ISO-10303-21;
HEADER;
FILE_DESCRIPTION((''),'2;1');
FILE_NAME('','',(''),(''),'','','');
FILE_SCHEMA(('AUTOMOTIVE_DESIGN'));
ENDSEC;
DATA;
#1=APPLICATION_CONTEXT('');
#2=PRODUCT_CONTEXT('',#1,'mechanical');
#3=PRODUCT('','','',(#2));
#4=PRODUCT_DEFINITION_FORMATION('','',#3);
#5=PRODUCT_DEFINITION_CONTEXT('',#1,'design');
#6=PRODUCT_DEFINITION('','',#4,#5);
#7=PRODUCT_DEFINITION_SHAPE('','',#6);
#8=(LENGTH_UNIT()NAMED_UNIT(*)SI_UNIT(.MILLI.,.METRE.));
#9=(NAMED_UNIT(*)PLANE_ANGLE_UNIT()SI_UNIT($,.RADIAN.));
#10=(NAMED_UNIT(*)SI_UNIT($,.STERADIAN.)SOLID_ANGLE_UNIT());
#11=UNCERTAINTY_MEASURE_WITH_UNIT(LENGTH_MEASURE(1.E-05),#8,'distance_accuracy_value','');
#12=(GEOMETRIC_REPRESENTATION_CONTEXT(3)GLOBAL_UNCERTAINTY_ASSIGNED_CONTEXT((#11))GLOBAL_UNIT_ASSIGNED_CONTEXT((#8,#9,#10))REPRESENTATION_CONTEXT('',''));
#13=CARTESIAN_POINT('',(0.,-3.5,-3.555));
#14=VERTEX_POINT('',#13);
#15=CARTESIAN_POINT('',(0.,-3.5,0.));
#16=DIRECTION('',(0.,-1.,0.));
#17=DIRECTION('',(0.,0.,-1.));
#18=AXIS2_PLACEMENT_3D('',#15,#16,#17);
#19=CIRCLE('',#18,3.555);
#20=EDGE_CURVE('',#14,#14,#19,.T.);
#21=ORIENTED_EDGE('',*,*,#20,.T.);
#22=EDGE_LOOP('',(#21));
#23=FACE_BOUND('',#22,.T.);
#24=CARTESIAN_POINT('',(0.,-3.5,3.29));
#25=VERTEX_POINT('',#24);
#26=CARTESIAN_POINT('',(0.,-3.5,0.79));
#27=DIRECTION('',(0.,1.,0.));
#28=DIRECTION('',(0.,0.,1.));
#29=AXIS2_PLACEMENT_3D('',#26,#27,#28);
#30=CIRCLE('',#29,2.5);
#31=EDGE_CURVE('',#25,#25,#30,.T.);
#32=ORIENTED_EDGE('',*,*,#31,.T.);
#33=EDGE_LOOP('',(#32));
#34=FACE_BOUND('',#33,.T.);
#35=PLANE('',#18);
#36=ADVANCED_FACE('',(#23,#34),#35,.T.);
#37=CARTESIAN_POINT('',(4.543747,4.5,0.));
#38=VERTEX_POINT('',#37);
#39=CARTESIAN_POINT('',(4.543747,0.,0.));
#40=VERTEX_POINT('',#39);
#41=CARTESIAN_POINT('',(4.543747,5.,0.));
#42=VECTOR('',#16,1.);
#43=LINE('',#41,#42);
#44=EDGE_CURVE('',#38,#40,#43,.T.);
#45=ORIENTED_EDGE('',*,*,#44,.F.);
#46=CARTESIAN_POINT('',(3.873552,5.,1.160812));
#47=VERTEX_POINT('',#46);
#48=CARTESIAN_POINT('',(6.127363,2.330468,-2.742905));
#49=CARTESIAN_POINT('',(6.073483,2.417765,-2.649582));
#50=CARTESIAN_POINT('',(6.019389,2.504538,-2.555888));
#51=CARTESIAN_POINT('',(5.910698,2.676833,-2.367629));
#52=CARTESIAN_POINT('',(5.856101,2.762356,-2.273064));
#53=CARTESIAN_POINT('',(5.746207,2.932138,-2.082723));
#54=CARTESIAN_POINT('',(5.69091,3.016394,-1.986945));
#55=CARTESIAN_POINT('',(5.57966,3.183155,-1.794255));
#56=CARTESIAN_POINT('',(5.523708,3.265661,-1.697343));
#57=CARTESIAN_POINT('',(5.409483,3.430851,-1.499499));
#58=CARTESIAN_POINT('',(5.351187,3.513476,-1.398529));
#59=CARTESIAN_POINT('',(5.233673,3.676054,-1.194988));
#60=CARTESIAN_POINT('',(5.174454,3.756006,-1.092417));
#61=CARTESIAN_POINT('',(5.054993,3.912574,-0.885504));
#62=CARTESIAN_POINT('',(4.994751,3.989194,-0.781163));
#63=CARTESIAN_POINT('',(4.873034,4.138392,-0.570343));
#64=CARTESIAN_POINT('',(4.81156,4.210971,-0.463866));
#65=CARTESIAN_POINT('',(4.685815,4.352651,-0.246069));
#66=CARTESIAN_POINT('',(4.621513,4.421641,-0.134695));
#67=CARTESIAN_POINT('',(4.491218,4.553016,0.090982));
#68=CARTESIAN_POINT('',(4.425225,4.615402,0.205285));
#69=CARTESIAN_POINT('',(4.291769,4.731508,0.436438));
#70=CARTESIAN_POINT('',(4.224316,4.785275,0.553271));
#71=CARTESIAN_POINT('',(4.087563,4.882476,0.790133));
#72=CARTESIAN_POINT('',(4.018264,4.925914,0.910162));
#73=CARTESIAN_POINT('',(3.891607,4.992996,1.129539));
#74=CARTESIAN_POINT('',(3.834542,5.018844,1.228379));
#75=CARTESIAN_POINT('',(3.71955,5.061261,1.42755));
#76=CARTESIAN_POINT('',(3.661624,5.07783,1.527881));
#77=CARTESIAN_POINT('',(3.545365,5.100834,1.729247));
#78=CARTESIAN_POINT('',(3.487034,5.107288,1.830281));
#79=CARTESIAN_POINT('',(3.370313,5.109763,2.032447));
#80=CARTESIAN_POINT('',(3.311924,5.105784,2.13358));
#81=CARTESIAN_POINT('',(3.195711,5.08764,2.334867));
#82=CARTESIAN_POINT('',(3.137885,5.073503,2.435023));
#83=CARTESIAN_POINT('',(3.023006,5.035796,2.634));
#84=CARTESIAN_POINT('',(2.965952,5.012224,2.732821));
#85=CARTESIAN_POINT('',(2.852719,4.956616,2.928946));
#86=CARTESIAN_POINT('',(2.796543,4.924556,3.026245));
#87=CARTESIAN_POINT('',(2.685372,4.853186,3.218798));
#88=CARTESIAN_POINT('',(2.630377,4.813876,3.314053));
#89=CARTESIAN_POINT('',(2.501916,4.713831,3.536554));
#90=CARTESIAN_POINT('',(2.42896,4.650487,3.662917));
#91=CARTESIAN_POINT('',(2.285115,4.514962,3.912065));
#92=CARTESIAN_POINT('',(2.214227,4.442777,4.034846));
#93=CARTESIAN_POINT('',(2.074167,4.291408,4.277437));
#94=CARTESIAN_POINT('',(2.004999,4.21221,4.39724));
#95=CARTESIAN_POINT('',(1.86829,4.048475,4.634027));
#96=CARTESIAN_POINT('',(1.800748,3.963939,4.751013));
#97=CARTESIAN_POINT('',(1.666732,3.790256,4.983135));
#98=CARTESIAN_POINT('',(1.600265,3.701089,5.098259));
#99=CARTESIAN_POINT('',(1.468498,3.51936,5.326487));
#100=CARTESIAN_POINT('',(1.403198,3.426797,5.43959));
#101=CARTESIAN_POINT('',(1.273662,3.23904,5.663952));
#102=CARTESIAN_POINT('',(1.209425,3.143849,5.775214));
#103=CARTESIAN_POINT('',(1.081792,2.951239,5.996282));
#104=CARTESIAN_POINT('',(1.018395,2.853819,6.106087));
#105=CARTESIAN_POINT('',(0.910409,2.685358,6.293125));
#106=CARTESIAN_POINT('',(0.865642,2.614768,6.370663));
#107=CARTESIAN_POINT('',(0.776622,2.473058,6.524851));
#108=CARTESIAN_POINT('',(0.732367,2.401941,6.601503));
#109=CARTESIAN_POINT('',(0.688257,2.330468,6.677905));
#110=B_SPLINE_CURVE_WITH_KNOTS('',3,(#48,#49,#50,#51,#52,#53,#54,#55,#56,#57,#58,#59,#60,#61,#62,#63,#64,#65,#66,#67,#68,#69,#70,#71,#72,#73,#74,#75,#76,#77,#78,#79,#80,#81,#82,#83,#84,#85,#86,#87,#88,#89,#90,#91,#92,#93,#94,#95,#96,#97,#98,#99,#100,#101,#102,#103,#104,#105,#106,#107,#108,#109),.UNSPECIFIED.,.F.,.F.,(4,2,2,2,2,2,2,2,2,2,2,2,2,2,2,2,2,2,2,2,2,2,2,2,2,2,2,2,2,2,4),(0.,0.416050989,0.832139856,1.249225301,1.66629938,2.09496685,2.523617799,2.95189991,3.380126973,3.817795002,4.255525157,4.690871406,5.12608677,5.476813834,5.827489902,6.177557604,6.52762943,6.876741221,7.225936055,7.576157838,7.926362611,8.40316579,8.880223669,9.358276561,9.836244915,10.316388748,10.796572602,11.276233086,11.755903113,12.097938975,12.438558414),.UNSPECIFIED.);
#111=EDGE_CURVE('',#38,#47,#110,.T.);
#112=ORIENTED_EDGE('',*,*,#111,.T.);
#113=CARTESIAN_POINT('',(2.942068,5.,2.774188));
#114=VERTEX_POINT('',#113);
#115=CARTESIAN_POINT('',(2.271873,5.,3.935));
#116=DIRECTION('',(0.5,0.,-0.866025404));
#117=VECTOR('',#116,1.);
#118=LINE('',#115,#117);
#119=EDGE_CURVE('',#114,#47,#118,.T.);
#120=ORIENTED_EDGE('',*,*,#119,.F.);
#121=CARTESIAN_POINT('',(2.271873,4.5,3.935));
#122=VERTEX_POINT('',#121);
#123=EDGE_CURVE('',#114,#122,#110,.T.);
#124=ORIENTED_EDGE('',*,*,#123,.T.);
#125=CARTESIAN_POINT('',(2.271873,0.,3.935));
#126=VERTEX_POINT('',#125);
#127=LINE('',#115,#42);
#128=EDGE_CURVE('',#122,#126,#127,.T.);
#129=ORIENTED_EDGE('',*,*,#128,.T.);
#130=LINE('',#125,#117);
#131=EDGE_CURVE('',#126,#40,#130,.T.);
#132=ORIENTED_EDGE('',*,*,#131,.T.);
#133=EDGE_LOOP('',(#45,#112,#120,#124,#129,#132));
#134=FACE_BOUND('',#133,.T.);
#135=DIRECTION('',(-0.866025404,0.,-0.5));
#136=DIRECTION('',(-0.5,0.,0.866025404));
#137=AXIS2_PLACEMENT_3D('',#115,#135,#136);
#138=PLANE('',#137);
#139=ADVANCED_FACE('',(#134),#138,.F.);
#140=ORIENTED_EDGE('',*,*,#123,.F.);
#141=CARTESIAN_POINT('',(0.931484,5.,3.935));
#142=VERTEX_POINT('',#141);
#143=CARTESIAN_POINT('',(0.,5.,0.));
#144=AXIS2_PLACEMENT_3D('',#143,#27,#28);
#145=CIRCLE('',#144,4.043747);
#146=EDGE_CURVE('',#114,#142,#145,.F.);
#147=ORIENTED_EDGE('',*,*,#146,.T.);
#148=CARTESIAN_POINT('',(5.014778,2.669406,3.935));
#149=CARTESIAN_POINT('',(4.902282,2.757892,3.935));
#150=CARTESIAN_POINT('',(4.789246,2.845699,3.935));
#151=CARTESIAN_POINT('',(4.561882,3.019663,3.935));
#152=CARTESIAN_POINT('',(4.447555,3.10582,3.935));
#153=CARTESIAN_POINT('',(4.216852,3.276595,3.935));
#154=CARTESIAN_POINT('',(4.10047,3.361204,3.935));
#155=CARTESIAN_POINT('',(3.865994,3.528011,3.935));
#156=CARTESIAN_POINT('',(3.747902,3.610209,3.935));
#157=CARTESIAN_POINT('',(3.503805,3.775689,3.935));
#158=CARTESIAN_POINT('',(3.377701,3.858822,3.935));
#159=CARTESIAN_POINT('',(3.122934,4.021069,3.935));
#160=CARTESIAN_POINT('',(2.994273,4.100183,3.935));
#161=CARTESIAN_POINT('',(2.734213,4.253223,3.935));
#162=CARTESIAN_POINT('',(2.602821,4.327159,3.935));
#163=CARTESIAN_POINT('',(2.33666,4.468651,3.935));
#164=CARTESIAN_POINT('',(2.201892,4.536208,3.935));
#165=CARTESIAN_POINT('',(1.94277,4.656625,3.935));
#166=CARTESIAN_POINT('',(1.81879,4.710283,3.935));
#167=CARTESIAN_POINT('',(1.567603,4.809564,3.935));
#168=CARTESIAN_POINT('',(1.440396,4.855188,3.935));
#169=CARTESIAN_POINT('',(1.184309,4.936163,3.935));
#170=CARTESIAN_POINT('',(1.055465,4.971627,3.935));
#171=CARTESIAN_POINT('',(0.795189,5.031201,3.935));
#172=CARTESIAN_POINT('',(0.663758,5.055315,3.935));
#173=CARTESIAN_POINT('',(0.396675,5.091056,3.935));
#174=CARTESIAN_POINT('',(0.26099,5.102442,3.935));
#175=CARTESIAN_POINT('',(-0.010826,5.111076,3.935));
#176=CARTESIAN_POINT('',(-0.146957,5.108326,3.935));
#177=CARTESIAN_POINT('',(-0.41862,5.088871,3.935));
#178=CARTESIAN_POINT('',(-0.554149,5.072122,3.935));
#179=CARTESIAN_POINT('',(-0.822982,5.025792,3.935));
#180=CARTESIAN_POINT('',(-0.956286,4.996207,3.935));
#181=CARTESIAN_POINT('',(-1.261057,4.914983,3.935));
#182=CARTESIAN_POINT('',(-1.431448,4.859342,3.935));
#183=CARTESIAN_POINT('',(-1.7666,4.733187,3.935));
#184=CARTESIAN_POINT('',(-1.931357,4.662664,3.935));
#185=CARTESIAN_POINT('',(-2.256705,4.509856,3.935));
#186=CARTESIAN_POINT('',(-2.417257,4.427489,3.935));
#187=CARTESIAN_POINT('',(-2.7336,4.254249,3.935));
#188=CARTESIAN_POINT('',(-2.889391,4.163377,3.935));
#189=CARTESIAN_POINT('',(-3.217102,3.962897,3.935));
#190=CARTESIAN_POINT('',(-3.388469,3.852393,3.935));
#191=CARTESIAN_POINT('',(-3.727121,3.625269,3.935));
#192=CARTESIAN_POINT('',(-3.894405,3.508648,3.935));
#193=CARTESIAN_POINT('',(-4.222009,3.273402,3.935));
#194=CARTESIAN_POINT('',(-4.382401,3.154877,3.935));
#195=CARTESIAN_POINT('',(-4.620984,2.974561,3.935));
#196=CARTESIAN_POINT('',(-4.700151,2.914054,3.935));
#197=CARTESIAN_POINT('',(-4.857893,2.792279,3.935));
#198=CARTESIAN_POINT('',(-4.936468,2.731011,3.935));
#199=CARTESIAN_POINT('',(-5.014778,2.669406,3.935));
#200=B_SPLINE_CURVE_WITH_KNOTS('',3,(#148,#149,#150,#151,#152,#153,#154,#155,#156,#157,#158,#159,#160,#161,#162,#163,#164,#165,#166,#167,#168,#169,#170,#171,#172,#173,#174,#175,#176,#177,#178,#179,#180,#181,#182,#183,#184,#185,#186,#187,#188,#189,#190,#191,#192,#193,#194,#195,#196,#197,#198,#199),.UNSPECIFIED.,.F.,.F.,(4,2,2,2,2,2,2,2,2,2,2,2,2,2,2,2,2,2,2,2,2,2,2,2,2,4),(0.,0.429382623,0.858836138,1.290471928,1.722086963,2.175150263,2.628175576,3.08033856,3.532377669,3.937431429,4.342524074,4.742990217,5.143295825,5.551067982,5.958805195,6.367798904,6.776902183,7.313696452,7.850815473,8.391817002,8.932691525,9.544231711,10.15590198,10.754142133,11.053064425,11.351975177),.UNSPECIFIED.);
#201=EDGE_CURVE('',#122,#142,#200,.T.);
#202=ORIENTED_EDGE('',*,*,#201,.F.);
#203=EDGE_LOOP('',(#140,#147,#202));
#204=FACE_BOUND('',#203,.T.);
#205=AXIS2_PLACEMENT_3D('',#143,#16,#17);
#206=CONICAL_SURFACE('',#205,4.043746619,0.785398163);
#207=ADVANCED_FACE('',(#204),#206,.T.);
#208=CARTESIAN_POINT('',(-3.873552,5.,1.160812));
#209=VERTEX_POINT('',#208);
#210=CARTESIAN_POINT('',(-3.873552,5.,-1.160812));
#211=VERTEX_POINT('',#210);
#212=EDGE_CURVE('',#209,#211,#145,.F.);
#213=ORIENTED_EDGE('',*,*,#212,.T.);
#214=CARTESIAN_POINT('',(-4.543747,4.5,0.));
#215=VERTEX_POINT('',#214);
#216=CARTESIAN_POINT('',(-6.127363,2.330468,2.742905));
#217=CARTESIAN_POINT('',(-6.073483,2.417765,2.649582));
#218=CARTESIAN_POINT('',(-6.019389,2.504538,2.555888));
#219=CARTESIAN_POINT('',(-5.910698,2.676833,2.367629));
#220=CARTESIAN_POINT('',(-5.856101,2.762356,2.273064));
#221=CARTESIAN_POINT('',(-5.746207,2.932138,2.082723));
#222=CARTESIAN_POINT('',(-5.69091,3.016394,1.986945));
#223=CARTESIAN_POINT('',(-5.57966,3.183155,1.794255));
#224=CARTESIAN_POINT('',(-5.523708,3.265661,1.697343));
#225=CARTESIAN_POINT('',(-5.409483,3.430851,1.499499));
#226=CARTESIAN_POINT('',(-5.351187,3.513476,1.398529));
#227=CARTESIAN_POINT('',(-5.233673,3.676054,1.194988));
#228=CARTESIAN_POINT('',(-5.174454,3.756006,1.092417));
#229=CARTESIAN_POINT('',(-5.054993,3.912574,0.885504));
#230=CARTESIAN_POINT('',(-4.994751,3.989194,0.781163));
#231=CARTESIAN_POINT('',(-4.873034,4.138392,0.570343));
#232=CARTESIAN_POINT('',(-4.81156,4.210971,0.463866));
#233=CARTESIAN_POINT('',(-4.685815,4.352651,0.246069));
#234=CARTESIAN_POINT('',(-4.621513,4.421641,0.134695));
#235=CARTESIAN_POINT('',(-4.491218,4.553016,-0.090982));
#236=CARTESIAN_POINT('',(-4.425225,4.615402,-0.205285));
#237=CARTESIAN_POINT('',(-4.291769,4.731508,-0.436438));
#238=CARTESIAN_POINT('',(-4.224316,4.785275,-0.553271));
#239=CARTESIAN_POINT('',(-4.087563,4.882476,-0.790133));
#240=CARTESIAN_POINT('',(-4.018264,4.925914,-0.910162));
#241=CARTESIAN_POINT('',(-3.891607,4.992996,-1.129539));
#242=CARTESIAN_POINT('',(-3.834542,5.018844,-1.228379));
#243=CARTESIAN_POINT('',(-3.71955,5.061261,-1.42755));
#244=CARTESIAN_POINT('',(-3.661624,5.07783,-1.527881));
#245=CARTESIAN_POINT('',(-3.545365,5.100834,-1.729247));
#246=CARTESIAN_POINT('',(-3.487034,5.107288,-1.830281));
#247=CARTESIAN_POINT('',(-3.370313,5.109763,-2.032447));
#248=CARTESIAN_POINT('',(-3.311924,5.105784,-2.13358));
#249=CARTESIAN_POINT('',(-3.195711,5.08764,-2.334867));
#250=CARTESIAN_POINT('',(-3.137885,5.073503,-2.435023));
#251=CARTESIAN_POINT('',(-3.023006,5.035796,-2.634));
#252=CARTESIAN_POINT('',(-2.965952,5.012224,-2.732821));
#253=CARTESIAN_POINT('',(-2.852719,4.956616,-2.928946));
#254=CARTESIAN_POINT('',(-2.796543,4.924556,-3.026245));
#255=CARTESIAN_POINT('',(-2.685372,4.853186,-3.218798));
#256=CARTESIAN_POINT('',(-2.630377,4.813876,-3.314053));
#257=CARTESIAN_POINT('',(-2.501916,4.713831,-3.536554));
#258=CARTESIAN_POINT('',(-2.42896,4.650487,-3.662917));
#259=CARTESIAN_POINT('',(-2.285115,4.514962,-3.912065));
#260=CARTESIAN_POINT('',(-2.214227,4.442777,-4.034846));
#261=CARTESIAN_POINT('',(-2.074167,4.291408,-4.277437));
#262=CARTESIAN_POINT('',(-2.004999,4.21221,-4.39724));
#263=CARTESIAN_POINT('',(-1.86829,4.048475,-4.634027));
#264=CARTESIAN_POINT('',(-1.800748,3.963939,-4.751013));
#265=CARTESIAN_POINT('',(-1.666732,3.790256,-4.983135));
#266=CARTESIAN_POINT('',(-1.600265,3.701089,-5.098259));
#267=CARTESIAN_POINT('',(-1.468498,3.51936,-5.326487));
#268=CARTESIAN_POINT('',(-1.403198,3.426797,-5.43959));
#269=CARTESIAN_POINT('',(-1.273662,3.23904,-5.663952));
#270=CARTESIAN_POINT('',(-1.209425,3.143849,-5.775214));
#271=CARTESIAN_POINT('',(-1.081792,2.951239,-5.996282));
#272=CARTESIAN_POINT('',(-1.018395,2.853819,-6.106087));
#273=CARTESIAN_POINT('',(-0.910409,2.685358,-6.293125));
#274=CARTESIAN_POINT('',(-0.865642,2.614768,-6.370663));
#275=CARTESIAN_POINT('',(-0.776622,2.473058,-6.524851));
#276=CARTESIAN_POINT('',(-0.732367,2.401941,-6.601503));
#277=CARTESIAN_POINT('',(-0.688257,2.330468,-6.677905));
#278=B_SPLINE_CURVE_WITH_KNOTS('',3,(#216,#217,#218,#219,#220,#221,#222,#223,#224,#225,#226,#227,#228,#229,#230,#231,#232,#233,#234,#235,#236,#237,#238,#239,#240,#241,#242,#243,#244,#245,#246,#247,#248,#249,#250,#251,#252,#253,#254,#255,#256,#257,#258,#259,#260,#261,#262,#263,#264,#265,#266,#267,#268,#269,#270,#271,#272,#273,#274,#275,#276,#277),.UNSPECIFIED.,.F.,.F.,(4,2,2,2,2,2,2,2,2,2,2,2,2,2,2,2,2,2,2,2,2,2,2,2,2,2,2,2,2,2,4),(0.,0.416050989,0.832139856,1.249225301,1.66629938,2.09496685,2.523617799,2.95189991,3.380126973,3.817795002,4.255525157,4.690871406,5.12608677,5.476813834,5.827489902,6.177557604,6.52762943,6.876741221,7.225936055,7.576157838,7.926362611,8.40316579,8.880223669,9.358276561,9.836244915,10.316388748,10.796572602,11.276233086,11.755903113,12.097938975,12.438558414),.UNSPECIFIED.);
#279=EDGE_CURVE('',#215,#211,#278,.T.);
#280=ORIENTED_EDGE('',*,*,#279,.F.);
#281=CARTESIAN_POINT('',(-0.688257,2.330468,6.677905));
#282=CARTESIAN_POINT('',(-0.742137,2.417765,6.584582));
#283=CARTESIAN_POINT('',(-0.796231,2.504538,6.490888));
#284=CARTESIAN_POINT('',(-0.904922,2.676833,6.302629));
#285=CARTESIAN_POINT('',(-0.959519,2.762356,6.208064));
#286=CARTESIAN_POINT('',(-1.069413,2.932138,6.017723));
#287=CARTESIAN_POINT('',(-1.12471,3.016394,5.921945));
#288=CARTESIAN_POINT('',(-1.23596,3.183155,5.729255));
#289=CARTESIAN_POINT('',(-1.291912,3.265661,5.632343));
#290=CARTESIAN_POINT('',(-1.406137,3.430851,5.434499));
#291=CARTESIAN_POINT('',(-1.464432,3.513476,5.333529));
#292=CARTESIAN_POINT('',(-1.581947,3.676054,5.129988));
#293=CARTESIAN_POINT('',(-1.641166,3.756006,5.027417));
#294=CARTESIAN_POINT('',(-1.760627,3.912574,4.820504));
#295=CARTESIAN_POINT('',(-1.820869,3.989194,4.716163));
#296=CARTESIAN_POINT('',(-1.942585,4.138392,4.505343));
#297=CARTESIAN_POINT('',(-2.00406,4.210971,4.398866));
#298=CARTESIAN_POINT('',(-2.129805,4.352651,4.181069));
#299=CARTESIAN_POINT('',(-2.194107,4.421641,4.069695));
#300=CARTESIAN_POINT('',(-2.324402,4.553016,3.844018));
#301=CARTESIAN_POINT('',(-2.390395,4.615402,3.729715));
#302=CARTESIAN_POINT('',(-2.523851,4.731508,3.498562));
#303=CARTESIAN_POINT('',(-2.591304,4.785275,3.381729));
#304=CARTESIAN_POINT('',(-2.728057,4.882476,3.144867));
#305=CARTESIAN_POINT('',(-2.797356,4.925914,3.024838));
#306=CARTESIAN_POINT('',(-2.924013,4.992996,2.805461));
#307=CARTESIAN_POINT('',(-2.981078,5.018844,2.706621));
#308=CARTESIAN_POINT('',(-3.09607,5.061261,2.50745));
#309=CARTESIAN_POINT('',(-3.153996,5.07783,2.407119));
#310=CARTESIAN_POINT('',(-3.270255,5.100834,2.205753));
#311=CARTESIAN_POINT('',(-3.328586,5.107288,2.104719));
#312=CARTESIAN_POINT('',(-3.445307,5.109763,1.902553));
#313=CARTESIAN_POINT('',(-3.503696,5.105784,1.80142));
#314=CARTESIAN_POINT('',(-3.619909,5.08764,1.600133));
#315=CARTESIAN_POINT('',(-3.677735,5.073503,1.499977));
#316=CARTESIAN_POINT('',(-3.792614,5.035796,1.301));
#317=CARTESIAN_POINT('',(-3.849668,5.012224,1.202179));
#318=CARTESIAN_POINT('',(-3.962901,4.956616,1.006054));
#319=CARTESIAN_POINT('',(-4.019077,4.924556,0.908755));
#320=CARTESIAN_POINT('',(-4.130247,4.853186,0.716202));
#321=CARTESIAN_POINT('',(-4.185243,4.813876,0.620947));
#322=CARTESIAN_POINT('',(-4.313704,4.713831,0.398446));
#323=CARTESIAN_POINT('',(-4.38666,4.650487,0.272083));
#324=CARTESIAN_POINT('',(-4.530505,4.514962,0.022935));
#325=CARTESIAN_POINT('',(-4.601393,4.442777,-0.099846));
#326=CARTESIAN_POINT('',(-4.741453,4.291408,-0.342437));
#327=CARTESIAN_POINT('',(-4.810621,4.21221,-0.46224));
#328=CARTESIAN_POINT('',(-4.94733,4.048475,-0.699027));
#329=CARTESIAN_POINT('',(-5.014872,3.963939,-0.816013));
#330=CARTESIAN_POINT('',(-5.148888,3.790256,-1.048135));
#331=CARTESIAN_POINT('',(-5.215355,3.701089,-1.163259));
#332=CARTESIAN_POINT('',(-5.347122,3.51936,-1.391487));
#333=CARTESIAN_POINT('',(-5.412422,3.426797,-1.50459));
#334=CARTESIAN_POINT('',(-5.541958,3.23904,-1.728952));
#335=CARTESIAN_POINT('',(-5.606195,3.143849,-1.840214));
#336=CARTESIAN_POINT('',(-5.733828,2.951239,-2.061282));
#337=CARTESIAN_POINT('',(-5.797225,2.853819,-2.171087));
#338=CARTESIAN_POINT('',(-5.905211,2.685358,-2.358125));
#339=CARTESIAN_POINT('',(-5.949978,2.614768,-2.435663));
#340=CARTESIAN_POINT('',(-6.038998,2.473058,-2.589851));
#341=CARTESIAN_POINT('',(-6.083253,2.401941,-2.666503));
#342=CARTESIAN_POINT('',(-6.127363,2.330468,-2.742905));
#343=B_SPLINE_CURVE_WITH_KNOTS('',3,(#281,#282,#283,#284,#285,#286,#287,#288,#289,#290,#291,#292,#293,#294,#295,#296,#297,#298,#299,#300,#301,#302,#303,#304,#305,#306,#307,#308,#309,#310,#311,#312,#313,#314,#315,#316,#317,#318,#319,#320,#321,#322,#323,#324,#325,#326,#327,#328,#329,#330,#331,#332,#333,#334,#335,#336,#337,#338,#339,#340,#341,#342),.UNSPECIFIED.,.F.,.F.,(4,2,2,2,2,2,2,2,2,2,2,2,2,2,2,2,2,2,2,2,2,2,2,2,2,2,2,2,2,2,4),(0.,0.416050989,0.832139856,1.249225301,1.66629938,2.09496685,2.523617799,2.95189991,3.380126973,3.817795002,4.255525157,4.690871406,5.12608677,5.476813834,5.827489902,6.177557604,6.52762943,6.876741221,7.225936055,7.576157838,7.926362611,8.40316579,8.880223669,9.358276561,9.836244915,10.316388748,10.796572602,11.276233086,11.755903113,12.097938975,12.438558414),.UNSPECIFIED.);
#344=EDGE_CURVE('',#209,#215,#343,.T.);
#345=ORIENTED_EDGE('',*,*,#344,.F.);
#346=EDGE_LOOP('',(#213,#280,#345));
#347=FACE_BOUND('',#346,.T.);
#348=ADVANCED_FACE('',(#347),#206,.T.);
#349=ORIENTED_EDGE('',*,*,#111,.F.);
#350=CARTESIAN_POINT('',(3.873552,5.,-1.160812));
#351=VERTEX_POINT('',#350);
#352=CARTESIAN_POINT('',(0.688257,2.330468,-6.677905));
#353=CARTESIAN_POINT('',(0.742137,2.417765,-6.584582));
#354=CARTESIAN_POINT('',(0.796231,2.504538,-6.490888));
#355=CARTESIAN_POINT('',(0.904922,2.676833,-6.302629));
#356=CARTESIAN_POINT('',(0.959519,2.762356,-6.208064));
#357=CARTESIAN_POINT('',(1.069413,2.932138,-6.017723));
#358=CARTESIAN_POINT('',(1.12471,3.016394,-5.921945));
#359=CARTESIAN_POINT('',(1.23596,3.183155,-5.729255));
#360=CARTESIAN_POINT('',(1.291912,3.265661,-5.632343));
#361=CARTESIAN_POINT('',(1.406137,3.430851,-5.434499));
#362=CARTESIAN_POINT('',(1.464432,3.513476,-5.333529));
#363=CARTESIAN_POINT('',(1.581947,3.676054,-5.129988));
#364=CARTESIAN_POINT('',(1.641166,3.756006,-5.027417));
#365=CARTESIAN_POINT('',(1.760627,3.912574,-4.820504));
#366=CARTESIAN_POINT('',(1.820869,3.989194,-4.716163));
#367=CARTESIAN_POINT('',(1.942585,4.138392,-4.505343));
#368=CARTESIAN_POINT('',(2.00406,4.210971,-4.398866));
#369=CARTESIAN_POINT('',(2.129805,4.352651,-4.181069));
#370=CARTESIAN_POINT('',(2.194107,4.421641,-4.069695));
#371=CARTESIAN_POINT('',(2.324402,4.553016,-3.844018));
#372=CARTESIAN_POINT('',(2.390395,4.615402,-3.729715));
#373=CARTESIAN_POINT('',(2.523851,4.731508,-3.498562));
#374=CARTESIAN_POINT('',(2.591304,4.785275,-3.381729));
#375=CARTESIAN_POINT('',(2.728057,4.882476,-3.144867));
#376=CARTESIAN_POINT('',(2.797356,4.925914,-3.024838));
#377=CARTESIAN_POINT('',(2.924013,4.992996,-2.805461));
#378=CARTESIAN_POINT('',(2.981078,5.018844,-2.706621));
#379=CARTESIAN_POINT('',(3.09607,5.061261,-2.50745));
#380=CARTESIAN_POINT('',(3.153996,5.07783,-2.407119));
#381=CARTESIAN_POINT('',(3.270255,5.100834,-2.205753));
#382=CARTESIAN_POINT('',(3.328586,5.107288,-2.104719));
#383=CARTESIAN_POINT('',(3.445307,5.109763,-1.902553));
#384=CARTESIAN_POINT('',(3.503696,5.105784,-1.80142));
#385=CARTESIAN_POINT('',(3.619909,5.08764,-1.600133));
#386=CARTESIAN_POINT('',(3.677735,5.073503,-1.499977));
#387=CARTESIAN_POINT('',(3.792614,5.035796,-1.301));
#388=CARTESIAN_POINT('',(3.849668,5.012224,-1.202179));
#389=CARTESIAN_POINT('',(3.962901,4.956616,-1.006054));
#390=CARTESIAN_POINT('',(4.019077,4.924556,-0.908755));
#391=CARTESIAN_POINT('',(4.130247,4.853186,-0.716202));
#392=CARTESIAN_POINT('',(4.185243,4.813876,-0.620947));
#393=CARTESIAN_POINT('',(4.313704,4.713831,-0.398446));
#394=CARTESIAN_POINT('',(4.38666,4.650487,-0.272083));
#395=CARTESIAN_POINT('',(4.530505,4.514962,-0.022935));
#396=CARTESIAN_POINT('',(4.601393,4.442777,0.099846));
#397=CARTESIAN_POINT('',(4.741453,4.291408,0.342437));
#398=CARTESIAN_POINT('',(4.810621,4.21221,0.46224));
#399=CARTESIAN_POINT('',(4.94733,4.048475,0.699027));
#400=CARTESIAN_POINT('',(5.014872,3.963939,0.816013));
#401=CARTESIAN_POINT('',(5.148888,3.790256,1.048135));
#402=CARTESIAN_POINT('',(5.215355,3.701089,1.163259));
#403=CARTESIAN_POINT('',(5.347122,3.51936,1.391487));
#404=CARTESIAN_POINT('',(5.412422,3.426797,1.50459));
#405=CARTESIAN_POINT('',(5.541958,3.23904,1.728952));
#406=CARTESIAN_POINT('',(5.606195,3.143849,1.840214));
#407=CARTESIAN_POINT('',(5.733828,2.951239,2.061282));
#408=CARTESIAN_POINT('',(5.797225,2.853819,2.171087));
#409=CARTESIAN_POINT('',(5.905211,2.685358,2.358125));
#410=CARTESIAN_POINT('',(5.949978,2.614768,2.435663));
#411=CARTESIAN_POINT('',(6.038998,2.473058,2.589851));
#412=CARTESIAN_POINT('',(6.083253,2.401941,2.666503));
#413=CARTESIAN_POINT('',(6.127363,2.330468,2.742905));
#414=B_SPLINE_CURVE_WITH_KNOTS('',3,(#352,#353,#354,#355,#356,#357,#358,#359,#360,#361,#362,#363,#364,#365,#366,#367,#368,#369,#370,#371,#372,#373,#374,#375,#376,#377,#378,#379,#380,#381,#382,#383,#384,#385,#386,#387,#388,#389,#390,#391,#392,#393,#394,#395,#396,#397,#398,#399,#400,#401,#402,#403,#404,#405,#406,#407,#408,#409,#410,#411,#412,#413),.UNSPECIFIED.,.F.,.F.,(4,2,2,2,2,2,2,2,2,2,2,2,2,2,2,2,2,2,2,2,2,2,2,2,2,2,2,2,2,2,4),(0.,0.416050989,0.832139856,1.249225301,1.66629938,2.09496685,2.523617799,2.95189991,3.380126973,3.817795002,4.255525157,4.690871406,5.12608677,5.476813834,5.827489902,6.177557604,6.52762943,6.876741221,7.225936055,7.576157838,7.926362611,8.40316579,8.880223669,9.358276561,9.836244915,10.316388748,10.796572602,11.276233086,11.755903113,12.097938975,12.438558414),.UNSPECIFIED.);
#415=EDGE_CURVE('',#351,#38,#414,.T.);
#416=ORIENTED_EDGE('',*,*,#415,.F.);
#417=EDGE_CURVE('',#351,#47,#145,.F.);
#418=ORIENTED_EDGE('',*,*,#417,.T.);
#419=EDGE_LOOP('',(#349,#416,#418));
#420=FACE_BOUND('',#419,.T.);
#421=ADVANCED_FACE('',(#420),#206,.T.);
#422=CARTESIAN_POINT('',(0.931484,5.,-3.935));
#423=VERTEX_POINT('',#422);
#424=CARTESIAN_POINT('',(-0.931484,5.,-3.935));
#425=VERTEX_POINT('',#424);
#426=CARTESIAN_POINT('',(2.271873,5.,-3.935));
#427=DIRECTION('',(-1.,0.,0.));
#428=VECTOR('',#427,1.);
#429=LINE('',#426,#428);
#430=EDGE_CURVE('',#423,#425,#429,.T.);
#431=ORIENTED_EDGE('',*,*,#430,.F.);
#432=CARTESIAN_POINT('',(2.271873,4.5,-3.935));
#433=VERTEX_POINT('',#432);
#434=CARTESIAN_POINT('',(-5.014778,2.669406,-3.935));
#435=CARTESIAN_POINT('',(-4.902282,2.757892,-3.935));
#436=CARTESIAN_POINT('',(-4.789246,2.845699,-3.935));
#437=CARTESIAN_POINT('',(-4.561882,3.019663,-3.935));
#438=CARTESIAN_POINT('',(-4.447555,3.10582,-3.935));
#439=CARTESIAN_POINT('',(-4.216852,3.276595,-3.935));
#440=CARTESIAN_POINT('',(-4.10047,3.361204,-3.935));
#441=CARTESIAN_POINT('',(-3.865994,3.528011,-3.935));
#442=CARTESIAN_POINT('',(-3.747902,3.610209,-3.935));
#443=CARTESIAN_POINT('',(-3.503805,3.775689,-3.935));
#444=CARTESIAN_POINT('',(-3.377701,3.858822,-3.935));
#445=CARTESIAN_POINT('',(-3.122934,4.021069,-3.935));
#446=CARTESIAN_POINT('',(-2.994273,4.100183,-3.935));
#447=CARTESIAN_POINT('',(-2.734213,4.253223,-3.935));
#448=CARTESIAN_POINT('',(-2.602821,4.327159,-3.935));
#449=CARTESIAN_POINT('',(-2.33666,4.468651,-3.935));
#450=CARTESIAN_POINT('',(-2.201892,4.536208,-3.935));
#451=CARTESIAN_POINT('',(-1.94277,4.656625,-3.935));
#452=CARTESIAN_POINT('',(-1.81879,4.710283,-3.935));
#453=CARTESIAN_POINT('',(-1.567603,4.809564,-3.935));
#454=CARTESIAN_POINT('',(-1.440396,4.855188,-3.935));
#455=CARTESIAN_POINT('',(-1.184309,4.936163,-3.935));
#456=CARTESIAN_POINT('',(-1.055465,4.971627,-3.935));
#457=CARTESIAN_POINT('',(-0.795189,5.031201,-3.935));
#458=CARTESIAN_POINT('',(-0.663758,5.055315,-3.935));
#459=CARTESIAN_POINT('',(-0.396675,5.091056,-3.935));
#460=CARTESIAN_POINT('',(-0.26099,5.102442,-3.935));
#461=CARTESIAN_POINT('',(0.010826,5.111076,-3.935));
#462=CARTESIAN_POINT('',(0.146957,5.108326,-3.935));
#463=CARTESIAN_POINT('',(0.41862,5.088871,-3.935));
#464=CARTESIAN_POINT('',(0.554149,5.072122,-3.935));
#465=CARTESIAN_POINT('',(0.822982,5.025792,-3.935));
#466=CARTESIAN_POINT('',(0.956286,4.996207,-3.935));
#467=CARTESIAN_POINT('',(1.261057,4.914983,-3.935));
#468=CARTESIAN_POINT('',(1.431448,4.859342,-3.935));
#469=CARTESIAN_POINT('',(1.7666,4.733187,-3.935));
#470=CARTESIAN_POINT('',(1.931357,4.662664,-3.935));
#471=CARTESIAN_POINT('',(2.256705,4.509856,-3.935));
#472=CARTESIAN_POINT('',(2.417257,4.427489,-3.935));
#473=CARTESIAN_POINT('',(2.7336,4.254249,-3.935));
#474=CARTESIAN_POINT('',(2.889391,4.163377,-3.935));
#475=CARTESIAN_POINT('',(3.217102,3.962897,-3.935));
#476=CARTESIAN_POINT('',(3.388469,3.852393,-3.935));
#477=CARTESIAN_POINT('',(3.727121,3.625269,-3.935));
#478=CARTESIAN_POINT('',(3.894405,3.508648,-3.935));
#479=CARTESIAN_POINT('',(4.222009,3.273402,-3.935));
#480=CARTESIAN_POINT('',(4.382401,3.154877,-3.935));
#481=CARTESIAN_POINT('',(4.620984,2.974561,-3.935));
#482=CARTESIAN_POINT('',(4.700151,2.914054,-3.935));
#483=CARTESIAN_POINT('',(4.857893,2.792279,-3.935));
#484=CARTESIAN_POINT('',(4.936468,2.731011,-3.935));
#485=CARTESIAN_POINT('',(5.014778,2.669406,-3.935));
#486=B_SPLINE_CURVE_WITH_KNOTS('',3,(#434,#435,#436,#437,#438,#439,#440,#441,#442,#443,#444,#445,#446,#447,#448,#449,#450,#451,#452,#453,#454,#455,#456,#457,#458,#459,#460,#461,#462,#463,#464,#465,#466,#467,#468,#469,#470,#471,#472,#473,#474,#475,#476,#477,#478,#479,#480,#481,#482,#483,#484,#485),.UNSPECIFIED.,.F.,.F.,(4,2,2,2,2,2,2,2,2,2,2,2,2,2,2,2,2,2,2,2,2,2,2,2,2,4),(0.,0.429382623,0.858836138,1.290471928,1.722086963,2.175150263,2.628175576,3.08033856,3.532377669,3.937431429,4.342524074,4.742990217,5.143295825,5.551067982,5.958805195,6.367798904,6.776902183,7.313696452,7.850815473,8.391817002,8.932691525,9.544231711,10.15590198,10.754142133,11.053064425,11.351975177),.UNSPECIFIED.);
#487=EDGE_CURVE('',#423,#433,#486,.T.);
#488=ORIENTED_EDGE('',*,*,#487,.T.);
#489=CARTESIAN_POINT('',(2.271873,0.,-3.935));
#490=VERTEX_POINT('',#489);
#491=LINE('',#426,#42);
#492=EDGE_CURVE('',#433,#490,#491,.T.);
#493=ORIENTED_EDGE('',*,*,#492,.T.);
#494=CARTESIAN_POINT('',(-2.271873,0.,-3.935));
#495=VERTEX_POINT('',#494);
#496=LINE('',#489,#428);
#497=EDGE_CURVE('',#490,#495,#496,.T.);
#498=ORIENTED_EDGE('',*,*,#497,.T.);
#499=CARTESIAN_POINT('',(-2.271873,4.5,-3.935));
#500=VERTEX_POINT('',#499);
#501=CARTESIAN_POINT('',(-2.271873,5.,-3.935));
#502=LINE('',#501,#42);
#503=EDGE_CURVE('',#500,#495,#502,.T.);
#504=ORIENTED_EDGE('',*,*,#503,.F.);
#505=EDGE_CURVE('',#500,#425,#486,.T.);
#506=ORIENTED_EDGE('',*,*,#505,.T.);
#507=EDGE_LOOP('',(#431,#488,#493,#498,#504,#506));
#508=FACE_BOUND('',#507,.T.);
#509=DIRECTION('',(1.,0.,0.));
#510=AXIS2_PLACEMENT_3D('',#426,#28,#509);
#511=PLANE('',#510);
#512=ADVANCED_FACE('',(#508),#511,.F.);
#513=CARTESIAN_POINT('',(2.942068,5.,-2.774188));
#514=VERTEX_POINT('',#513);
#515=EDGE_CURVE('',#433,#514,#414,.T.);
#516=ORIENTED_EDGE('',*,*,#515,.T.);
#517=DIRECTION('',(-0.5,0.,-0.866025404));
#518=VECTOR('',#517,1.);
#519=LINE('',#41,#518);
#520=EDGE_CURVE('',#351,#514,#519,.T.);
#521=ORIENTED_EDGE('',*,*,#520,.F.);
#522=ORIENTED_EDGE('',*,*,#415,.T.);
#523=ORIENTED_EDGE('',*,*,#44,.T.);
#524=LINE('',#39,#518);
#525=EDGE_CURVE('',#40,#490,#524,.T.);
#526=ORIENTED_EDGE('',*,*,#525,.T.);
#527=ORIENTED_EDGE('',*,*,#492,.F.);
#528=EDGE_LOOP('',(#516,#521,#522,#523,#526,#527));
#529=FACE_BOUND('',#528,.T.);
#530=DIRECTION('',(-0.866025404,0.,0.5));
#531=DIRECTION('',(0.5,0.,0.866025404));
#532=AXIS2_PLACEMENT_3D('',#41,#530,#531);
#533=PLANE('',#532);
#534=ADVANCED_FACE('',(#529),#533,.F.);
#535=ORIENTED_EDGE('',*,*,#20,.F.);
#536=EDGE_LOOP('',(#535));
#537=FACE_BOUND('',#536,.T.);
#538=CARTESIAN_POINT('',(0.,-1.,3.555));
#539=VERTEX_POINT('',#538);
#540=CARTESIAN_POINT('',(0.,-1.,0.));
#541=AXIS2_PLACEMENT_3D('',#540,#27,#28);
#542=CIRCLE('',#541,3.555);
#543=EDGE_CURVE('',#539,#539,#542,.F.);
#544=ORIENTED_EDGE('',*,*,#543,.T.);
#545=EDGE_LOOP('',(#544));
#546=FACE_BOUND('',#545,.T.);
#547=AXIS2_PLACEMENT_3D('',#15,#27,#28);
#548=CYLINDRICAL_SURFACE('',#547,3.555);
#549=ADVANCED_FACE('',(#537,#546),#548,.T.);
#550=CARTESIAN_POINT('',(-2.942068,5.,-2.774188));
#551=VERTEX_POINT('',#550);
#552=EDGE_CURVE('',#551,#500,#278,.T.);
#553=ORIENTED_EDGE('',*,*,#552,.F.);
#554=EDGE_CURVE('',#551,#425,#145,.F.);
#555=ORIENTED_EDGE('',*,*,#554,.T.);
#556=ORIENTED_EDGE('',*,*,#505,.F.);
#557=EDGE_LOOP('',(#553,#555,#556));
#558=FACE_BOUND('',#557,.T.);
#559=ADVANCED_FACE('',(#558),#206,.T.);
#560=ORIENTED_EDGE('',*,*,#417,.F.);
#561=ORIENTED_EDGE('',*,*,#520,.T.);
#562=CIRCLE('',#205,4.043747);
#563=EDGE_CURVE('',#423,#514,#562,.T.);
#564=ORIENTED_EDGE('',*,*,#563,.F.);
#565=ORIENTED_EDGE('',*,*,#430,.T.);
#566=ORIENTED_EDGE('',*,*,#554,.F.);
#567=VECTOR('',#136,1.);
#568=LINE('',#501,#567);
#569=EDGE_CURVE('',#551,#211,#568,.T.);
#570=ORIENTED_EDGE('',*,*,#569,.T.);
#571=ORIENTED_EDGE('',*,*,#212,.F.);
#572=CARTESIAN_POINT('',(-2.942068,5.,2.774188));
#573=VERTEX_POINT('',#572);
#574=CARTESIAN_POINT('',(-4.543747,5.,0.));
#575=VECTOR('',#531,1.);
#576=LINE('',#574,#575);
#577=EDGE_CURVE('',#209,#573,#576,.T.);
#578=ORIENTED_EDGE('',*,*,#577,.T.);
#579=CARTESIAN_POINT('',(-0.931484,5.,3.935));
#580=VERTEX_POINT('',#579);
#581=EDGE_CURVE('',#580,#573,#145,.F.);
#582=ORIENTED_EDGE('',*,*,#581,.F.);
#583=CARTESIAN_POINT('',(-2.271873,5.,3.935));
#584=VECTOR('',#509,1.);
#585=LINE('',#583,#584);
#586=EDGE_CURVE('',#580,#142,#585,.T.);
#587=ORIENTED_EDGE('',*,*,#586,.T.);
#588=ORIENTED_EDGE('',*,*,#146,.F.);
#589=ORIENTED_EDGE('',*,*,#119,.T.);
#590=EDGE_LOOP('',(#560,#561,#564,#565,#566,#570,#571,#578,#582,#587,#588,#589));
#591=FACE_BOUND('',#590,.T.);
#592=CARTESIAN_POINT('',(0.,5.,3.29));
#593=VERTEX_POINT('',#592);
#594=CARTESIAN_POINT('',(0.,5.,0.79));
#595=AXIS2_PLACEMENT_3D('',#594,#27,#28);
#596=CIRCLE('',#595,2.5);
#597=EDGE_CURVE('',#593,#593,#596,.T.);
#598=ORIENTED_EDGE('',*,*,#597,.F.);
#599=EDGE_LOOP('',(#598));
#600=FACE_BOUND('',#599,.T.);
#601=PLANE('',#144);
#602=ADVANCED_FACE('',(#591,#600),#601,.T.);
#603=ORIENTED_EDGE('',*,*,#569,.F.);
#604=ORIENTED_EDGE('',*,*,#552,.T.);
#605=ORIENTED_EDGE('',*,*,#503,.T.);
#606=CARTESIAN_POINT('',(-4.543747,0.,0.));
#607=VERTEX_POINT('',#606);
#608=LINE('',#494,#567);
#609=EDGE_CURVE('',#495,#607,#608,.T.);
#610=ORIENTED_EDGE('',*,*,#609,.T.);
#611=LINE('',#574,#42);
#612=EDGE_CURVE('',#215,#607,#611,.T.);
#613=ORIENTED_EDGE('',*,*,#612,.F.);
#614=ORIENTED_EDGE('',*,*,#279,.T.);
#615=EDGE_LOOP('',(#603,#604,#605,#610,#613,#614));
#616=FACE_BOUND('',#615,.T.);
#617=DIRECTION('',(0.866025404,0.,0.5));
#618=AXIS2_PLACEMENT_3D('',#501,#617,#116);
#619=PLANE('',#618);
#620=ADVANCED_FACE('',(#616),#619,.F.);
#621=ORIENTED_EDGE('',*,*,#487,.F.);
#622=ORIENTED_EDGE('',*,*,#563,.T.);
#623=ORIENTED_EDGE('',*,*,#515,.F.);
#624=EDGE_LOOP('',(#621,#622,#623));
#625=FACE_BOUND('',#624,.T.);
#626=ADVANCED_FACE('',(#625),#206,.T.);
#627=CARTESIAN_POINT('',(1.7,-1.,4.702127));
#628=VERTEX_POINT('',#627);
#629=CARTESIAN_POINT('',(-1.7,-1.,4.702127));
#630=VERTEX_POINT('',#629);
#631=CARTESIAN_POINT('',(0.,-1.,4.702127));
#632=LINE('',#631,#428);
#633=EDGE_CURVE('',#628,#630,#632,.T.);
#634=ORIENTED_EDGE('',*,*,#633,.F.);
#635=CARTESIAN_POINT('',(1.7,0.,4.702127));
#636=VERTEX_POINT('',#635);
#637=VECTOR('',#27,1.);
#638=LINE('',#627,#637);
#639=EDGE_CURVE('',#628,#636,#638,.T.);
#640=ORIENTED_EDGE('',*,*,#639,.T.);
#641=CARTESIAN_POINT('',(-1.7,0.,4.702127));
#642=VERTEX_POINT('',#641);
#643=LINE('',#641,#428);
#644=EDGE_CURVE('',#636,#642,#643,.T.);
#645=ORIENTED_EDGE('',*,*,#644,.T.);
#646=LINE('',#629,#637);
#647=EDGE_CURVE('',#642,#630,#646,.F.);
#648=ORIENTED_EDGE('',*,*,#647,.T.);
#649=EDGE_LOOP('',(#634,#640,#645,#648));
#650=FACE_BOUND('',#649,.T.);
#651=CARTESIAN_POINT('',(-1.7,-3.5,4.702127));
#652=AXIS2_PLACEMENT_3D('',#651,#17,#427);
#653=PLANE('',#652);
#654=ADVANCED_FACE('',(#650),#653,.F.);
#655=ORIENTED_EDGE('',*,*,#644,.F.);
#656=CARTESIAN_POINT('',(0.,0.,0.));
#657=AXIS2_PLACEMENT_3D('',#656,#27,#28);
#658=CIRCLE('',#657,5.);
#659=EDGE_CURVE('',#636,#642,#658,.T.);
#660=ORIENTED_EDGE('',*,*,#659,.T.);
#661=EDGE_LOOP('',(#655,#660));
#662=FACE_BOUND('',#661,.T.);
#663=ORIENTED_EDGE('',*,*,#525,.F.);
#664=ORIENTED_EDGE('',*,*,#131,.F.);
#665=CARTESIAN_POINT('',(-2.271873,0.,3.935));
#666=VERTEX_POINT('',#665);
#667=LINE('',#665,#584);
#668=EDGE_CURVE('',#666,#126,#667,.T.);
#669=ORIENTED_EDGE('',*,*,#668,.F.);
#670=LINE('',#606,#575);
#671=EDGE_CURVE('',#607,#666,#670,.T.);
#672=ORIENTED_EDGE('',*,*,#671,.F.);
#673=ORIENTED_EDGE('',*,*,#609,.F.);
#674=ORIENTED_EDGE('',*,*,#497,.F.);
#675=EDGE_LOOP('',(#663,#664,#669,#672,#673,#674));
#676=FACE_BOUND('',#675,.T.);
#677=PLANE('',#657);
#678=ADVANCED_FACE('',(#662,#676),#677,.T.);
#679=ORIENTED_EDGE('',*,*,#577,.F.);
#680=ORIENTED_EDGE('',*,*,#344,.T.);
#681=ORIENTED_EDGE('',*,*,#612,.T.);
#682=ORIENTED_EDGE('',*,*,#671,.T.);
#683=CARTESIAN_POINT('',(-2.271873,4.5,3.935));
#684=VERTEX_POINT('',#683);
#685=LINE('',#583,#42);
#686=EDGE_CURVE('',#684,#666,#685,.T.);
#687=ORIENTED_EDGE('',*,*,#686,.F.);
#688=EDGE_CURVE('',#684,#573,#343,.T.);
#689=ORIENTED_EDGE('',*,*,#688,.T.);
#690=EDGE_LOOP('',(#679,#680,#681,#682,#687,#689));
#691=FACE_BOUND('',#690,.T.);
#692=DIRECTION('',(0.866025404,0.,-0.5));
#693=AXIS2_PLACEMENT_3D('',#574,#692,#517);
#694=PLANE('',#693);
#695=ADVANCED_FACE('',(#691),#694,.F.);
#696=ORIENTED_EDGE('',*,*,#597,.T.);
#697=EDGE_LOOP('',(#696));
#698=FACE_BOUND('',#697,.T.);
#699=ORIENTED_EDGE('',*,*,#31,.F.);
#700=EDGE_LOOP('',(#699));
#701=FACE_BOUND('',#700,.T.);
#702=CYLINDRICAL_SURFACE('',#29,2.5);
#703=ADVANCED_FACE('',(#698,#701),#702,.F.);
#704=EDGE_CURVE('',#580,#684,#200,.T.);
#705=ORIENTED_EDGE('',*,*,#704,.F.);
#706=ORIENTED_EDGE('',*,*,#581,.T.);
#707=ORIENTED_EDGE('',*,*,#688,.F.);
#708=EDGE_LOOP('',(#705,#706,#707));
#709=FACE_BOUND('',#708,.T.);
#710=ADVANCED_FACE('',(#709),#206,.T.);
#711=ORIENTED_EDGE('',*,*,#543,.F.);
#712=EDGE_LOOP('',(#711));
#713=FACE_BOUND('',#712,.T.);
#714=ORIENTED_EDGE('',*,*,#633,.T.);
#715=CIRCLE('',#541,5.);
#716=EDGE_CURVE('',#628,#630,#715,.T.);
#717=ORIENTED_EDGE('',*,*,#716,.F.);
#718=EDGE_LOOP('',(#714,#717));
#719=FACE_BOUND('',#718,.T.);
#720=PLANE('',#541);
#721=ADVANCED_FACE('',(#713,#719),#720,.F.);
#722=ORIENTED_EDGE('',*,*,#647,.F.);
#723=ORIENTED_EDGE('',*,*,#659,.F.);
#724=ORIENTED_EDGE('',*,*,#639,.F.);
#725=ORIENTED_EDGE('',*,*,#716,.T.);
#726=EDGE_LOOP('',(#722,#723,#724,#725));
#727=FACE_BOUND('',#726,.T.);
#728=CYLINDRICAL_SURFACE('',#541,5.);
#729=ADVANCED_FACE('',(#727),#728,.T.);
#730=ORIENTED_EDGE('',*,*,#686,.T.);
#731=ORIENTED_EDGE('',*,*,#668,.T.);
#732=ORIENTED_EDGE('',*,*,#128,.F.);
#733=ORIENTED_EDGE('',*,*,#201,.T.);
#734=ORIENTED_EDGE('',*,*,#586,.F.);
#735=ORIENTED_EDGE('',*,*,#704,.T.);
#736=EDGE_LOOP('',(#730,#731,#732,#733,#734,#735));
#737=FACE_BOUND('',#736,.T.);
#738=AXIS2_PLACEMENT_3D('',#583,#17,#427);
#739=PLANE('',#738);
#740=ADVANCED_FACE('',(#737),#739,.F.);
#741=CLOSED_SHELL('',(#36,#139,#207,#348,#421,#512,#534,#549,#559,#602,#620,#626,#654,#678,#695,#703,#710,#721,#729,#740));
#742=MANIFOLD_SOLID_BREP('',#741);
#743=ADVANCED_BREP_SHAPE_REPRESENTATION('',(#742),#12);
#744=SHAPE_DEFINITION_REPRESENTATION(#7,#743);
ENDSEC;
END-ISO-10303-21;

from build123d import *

# Parameters (mm, degrees)
BOSS_EXTRUDE1_DEPTH = 5
SKETCH2_R           = 5
BOSS_EXTRUDE2_DEPTH = 1
SKETCH3_R           = 3.555
BOSS_EXTRUDE3_DEPTH = 2.5
SKETCH4_R           = 2.5
CUT_EXTRUDE1_DEPTH  = 9.5
CUT_EXTRUDE2_DEPTH  = 4.5


with BuildPart() as part:
    # Sketch1 → Boss-Extrude1 (new body)
    with BuildSketch(Plane(origin=(0, 0, 0), x_dir=(1, 0, 0), z_dir=(0, 1, 0))):
        Polygon((4.543746619, 0), (2.271873309, 3.935), (-2.271873309, 3.935), (-4.543746619, 0), (-2.271873309, -3.935), (2.271873309, -3.935), align=None)
    extrude(amount=BOSS_EXTRUDE1_DEPTH)

    # Sketch2 → Boss-Extrude2 (add)
    with BuildSketch(Plane(origin=(0, 0, 0), x_dir=(1, 0, 0), z_dir=(0, 1, 0))):
        Circle(SKETCH2_R)
    extrude(amount=-BOSS_EXTRUDE2_DEPTH)

    # Sketch3 → Boss-Extrude3 (add)
    with BuildSketch(Plane.XZ.offset(1)):
        Circle(SKETCH3_R)
    extrude(amount=BOSS_EXTRUDE3_DEPTH)

    # Sketch4 → Cut-Extrude1 (cut, through all)
    with BuildSketch(Plane(origin=(0, 5, 0), x_dir=(1, 0, 0), z_dir=(0, 1, 0))):
        with Locations((0, -0.79)):
            Circle(SKETCH4_R)
    extrude(amount=-CUT_EXTRUDE1_DEPTH, mode=Mode.SUBTRACT)

    # Sketch5 → Cut-Extrude2 (cut, through all)
    with BuildSketch(Plane(origin=(0, 0, 0), x_dir=(1, 0, 0), z_dir=(0, 1, 0))):
        with BuildLine():
            Line((-1.7, -4.702127178), (1.7, -4.702127178))
            ThreePointArc((1.7, -4.702127178), (0, -5), (-1.7, -4.702127178))
        make_face()
    extrude(amount=-CUT_EXTRUDE2_DEPTH, mode=Mode.SUBTRACT)

    # Sketch6 → Cut-Revolve1 (revolve, cut)
    with BuildSketch(Plane.XY):
        Polygon((4.043746619, 5), (4.543746619, 5), (4.543746619, 4.5), align=None)
    revolve(axis=Axis((0, 0, 0), (0, 1, 0)), mode=Mode.SUBTRACT)


solid = part.part
